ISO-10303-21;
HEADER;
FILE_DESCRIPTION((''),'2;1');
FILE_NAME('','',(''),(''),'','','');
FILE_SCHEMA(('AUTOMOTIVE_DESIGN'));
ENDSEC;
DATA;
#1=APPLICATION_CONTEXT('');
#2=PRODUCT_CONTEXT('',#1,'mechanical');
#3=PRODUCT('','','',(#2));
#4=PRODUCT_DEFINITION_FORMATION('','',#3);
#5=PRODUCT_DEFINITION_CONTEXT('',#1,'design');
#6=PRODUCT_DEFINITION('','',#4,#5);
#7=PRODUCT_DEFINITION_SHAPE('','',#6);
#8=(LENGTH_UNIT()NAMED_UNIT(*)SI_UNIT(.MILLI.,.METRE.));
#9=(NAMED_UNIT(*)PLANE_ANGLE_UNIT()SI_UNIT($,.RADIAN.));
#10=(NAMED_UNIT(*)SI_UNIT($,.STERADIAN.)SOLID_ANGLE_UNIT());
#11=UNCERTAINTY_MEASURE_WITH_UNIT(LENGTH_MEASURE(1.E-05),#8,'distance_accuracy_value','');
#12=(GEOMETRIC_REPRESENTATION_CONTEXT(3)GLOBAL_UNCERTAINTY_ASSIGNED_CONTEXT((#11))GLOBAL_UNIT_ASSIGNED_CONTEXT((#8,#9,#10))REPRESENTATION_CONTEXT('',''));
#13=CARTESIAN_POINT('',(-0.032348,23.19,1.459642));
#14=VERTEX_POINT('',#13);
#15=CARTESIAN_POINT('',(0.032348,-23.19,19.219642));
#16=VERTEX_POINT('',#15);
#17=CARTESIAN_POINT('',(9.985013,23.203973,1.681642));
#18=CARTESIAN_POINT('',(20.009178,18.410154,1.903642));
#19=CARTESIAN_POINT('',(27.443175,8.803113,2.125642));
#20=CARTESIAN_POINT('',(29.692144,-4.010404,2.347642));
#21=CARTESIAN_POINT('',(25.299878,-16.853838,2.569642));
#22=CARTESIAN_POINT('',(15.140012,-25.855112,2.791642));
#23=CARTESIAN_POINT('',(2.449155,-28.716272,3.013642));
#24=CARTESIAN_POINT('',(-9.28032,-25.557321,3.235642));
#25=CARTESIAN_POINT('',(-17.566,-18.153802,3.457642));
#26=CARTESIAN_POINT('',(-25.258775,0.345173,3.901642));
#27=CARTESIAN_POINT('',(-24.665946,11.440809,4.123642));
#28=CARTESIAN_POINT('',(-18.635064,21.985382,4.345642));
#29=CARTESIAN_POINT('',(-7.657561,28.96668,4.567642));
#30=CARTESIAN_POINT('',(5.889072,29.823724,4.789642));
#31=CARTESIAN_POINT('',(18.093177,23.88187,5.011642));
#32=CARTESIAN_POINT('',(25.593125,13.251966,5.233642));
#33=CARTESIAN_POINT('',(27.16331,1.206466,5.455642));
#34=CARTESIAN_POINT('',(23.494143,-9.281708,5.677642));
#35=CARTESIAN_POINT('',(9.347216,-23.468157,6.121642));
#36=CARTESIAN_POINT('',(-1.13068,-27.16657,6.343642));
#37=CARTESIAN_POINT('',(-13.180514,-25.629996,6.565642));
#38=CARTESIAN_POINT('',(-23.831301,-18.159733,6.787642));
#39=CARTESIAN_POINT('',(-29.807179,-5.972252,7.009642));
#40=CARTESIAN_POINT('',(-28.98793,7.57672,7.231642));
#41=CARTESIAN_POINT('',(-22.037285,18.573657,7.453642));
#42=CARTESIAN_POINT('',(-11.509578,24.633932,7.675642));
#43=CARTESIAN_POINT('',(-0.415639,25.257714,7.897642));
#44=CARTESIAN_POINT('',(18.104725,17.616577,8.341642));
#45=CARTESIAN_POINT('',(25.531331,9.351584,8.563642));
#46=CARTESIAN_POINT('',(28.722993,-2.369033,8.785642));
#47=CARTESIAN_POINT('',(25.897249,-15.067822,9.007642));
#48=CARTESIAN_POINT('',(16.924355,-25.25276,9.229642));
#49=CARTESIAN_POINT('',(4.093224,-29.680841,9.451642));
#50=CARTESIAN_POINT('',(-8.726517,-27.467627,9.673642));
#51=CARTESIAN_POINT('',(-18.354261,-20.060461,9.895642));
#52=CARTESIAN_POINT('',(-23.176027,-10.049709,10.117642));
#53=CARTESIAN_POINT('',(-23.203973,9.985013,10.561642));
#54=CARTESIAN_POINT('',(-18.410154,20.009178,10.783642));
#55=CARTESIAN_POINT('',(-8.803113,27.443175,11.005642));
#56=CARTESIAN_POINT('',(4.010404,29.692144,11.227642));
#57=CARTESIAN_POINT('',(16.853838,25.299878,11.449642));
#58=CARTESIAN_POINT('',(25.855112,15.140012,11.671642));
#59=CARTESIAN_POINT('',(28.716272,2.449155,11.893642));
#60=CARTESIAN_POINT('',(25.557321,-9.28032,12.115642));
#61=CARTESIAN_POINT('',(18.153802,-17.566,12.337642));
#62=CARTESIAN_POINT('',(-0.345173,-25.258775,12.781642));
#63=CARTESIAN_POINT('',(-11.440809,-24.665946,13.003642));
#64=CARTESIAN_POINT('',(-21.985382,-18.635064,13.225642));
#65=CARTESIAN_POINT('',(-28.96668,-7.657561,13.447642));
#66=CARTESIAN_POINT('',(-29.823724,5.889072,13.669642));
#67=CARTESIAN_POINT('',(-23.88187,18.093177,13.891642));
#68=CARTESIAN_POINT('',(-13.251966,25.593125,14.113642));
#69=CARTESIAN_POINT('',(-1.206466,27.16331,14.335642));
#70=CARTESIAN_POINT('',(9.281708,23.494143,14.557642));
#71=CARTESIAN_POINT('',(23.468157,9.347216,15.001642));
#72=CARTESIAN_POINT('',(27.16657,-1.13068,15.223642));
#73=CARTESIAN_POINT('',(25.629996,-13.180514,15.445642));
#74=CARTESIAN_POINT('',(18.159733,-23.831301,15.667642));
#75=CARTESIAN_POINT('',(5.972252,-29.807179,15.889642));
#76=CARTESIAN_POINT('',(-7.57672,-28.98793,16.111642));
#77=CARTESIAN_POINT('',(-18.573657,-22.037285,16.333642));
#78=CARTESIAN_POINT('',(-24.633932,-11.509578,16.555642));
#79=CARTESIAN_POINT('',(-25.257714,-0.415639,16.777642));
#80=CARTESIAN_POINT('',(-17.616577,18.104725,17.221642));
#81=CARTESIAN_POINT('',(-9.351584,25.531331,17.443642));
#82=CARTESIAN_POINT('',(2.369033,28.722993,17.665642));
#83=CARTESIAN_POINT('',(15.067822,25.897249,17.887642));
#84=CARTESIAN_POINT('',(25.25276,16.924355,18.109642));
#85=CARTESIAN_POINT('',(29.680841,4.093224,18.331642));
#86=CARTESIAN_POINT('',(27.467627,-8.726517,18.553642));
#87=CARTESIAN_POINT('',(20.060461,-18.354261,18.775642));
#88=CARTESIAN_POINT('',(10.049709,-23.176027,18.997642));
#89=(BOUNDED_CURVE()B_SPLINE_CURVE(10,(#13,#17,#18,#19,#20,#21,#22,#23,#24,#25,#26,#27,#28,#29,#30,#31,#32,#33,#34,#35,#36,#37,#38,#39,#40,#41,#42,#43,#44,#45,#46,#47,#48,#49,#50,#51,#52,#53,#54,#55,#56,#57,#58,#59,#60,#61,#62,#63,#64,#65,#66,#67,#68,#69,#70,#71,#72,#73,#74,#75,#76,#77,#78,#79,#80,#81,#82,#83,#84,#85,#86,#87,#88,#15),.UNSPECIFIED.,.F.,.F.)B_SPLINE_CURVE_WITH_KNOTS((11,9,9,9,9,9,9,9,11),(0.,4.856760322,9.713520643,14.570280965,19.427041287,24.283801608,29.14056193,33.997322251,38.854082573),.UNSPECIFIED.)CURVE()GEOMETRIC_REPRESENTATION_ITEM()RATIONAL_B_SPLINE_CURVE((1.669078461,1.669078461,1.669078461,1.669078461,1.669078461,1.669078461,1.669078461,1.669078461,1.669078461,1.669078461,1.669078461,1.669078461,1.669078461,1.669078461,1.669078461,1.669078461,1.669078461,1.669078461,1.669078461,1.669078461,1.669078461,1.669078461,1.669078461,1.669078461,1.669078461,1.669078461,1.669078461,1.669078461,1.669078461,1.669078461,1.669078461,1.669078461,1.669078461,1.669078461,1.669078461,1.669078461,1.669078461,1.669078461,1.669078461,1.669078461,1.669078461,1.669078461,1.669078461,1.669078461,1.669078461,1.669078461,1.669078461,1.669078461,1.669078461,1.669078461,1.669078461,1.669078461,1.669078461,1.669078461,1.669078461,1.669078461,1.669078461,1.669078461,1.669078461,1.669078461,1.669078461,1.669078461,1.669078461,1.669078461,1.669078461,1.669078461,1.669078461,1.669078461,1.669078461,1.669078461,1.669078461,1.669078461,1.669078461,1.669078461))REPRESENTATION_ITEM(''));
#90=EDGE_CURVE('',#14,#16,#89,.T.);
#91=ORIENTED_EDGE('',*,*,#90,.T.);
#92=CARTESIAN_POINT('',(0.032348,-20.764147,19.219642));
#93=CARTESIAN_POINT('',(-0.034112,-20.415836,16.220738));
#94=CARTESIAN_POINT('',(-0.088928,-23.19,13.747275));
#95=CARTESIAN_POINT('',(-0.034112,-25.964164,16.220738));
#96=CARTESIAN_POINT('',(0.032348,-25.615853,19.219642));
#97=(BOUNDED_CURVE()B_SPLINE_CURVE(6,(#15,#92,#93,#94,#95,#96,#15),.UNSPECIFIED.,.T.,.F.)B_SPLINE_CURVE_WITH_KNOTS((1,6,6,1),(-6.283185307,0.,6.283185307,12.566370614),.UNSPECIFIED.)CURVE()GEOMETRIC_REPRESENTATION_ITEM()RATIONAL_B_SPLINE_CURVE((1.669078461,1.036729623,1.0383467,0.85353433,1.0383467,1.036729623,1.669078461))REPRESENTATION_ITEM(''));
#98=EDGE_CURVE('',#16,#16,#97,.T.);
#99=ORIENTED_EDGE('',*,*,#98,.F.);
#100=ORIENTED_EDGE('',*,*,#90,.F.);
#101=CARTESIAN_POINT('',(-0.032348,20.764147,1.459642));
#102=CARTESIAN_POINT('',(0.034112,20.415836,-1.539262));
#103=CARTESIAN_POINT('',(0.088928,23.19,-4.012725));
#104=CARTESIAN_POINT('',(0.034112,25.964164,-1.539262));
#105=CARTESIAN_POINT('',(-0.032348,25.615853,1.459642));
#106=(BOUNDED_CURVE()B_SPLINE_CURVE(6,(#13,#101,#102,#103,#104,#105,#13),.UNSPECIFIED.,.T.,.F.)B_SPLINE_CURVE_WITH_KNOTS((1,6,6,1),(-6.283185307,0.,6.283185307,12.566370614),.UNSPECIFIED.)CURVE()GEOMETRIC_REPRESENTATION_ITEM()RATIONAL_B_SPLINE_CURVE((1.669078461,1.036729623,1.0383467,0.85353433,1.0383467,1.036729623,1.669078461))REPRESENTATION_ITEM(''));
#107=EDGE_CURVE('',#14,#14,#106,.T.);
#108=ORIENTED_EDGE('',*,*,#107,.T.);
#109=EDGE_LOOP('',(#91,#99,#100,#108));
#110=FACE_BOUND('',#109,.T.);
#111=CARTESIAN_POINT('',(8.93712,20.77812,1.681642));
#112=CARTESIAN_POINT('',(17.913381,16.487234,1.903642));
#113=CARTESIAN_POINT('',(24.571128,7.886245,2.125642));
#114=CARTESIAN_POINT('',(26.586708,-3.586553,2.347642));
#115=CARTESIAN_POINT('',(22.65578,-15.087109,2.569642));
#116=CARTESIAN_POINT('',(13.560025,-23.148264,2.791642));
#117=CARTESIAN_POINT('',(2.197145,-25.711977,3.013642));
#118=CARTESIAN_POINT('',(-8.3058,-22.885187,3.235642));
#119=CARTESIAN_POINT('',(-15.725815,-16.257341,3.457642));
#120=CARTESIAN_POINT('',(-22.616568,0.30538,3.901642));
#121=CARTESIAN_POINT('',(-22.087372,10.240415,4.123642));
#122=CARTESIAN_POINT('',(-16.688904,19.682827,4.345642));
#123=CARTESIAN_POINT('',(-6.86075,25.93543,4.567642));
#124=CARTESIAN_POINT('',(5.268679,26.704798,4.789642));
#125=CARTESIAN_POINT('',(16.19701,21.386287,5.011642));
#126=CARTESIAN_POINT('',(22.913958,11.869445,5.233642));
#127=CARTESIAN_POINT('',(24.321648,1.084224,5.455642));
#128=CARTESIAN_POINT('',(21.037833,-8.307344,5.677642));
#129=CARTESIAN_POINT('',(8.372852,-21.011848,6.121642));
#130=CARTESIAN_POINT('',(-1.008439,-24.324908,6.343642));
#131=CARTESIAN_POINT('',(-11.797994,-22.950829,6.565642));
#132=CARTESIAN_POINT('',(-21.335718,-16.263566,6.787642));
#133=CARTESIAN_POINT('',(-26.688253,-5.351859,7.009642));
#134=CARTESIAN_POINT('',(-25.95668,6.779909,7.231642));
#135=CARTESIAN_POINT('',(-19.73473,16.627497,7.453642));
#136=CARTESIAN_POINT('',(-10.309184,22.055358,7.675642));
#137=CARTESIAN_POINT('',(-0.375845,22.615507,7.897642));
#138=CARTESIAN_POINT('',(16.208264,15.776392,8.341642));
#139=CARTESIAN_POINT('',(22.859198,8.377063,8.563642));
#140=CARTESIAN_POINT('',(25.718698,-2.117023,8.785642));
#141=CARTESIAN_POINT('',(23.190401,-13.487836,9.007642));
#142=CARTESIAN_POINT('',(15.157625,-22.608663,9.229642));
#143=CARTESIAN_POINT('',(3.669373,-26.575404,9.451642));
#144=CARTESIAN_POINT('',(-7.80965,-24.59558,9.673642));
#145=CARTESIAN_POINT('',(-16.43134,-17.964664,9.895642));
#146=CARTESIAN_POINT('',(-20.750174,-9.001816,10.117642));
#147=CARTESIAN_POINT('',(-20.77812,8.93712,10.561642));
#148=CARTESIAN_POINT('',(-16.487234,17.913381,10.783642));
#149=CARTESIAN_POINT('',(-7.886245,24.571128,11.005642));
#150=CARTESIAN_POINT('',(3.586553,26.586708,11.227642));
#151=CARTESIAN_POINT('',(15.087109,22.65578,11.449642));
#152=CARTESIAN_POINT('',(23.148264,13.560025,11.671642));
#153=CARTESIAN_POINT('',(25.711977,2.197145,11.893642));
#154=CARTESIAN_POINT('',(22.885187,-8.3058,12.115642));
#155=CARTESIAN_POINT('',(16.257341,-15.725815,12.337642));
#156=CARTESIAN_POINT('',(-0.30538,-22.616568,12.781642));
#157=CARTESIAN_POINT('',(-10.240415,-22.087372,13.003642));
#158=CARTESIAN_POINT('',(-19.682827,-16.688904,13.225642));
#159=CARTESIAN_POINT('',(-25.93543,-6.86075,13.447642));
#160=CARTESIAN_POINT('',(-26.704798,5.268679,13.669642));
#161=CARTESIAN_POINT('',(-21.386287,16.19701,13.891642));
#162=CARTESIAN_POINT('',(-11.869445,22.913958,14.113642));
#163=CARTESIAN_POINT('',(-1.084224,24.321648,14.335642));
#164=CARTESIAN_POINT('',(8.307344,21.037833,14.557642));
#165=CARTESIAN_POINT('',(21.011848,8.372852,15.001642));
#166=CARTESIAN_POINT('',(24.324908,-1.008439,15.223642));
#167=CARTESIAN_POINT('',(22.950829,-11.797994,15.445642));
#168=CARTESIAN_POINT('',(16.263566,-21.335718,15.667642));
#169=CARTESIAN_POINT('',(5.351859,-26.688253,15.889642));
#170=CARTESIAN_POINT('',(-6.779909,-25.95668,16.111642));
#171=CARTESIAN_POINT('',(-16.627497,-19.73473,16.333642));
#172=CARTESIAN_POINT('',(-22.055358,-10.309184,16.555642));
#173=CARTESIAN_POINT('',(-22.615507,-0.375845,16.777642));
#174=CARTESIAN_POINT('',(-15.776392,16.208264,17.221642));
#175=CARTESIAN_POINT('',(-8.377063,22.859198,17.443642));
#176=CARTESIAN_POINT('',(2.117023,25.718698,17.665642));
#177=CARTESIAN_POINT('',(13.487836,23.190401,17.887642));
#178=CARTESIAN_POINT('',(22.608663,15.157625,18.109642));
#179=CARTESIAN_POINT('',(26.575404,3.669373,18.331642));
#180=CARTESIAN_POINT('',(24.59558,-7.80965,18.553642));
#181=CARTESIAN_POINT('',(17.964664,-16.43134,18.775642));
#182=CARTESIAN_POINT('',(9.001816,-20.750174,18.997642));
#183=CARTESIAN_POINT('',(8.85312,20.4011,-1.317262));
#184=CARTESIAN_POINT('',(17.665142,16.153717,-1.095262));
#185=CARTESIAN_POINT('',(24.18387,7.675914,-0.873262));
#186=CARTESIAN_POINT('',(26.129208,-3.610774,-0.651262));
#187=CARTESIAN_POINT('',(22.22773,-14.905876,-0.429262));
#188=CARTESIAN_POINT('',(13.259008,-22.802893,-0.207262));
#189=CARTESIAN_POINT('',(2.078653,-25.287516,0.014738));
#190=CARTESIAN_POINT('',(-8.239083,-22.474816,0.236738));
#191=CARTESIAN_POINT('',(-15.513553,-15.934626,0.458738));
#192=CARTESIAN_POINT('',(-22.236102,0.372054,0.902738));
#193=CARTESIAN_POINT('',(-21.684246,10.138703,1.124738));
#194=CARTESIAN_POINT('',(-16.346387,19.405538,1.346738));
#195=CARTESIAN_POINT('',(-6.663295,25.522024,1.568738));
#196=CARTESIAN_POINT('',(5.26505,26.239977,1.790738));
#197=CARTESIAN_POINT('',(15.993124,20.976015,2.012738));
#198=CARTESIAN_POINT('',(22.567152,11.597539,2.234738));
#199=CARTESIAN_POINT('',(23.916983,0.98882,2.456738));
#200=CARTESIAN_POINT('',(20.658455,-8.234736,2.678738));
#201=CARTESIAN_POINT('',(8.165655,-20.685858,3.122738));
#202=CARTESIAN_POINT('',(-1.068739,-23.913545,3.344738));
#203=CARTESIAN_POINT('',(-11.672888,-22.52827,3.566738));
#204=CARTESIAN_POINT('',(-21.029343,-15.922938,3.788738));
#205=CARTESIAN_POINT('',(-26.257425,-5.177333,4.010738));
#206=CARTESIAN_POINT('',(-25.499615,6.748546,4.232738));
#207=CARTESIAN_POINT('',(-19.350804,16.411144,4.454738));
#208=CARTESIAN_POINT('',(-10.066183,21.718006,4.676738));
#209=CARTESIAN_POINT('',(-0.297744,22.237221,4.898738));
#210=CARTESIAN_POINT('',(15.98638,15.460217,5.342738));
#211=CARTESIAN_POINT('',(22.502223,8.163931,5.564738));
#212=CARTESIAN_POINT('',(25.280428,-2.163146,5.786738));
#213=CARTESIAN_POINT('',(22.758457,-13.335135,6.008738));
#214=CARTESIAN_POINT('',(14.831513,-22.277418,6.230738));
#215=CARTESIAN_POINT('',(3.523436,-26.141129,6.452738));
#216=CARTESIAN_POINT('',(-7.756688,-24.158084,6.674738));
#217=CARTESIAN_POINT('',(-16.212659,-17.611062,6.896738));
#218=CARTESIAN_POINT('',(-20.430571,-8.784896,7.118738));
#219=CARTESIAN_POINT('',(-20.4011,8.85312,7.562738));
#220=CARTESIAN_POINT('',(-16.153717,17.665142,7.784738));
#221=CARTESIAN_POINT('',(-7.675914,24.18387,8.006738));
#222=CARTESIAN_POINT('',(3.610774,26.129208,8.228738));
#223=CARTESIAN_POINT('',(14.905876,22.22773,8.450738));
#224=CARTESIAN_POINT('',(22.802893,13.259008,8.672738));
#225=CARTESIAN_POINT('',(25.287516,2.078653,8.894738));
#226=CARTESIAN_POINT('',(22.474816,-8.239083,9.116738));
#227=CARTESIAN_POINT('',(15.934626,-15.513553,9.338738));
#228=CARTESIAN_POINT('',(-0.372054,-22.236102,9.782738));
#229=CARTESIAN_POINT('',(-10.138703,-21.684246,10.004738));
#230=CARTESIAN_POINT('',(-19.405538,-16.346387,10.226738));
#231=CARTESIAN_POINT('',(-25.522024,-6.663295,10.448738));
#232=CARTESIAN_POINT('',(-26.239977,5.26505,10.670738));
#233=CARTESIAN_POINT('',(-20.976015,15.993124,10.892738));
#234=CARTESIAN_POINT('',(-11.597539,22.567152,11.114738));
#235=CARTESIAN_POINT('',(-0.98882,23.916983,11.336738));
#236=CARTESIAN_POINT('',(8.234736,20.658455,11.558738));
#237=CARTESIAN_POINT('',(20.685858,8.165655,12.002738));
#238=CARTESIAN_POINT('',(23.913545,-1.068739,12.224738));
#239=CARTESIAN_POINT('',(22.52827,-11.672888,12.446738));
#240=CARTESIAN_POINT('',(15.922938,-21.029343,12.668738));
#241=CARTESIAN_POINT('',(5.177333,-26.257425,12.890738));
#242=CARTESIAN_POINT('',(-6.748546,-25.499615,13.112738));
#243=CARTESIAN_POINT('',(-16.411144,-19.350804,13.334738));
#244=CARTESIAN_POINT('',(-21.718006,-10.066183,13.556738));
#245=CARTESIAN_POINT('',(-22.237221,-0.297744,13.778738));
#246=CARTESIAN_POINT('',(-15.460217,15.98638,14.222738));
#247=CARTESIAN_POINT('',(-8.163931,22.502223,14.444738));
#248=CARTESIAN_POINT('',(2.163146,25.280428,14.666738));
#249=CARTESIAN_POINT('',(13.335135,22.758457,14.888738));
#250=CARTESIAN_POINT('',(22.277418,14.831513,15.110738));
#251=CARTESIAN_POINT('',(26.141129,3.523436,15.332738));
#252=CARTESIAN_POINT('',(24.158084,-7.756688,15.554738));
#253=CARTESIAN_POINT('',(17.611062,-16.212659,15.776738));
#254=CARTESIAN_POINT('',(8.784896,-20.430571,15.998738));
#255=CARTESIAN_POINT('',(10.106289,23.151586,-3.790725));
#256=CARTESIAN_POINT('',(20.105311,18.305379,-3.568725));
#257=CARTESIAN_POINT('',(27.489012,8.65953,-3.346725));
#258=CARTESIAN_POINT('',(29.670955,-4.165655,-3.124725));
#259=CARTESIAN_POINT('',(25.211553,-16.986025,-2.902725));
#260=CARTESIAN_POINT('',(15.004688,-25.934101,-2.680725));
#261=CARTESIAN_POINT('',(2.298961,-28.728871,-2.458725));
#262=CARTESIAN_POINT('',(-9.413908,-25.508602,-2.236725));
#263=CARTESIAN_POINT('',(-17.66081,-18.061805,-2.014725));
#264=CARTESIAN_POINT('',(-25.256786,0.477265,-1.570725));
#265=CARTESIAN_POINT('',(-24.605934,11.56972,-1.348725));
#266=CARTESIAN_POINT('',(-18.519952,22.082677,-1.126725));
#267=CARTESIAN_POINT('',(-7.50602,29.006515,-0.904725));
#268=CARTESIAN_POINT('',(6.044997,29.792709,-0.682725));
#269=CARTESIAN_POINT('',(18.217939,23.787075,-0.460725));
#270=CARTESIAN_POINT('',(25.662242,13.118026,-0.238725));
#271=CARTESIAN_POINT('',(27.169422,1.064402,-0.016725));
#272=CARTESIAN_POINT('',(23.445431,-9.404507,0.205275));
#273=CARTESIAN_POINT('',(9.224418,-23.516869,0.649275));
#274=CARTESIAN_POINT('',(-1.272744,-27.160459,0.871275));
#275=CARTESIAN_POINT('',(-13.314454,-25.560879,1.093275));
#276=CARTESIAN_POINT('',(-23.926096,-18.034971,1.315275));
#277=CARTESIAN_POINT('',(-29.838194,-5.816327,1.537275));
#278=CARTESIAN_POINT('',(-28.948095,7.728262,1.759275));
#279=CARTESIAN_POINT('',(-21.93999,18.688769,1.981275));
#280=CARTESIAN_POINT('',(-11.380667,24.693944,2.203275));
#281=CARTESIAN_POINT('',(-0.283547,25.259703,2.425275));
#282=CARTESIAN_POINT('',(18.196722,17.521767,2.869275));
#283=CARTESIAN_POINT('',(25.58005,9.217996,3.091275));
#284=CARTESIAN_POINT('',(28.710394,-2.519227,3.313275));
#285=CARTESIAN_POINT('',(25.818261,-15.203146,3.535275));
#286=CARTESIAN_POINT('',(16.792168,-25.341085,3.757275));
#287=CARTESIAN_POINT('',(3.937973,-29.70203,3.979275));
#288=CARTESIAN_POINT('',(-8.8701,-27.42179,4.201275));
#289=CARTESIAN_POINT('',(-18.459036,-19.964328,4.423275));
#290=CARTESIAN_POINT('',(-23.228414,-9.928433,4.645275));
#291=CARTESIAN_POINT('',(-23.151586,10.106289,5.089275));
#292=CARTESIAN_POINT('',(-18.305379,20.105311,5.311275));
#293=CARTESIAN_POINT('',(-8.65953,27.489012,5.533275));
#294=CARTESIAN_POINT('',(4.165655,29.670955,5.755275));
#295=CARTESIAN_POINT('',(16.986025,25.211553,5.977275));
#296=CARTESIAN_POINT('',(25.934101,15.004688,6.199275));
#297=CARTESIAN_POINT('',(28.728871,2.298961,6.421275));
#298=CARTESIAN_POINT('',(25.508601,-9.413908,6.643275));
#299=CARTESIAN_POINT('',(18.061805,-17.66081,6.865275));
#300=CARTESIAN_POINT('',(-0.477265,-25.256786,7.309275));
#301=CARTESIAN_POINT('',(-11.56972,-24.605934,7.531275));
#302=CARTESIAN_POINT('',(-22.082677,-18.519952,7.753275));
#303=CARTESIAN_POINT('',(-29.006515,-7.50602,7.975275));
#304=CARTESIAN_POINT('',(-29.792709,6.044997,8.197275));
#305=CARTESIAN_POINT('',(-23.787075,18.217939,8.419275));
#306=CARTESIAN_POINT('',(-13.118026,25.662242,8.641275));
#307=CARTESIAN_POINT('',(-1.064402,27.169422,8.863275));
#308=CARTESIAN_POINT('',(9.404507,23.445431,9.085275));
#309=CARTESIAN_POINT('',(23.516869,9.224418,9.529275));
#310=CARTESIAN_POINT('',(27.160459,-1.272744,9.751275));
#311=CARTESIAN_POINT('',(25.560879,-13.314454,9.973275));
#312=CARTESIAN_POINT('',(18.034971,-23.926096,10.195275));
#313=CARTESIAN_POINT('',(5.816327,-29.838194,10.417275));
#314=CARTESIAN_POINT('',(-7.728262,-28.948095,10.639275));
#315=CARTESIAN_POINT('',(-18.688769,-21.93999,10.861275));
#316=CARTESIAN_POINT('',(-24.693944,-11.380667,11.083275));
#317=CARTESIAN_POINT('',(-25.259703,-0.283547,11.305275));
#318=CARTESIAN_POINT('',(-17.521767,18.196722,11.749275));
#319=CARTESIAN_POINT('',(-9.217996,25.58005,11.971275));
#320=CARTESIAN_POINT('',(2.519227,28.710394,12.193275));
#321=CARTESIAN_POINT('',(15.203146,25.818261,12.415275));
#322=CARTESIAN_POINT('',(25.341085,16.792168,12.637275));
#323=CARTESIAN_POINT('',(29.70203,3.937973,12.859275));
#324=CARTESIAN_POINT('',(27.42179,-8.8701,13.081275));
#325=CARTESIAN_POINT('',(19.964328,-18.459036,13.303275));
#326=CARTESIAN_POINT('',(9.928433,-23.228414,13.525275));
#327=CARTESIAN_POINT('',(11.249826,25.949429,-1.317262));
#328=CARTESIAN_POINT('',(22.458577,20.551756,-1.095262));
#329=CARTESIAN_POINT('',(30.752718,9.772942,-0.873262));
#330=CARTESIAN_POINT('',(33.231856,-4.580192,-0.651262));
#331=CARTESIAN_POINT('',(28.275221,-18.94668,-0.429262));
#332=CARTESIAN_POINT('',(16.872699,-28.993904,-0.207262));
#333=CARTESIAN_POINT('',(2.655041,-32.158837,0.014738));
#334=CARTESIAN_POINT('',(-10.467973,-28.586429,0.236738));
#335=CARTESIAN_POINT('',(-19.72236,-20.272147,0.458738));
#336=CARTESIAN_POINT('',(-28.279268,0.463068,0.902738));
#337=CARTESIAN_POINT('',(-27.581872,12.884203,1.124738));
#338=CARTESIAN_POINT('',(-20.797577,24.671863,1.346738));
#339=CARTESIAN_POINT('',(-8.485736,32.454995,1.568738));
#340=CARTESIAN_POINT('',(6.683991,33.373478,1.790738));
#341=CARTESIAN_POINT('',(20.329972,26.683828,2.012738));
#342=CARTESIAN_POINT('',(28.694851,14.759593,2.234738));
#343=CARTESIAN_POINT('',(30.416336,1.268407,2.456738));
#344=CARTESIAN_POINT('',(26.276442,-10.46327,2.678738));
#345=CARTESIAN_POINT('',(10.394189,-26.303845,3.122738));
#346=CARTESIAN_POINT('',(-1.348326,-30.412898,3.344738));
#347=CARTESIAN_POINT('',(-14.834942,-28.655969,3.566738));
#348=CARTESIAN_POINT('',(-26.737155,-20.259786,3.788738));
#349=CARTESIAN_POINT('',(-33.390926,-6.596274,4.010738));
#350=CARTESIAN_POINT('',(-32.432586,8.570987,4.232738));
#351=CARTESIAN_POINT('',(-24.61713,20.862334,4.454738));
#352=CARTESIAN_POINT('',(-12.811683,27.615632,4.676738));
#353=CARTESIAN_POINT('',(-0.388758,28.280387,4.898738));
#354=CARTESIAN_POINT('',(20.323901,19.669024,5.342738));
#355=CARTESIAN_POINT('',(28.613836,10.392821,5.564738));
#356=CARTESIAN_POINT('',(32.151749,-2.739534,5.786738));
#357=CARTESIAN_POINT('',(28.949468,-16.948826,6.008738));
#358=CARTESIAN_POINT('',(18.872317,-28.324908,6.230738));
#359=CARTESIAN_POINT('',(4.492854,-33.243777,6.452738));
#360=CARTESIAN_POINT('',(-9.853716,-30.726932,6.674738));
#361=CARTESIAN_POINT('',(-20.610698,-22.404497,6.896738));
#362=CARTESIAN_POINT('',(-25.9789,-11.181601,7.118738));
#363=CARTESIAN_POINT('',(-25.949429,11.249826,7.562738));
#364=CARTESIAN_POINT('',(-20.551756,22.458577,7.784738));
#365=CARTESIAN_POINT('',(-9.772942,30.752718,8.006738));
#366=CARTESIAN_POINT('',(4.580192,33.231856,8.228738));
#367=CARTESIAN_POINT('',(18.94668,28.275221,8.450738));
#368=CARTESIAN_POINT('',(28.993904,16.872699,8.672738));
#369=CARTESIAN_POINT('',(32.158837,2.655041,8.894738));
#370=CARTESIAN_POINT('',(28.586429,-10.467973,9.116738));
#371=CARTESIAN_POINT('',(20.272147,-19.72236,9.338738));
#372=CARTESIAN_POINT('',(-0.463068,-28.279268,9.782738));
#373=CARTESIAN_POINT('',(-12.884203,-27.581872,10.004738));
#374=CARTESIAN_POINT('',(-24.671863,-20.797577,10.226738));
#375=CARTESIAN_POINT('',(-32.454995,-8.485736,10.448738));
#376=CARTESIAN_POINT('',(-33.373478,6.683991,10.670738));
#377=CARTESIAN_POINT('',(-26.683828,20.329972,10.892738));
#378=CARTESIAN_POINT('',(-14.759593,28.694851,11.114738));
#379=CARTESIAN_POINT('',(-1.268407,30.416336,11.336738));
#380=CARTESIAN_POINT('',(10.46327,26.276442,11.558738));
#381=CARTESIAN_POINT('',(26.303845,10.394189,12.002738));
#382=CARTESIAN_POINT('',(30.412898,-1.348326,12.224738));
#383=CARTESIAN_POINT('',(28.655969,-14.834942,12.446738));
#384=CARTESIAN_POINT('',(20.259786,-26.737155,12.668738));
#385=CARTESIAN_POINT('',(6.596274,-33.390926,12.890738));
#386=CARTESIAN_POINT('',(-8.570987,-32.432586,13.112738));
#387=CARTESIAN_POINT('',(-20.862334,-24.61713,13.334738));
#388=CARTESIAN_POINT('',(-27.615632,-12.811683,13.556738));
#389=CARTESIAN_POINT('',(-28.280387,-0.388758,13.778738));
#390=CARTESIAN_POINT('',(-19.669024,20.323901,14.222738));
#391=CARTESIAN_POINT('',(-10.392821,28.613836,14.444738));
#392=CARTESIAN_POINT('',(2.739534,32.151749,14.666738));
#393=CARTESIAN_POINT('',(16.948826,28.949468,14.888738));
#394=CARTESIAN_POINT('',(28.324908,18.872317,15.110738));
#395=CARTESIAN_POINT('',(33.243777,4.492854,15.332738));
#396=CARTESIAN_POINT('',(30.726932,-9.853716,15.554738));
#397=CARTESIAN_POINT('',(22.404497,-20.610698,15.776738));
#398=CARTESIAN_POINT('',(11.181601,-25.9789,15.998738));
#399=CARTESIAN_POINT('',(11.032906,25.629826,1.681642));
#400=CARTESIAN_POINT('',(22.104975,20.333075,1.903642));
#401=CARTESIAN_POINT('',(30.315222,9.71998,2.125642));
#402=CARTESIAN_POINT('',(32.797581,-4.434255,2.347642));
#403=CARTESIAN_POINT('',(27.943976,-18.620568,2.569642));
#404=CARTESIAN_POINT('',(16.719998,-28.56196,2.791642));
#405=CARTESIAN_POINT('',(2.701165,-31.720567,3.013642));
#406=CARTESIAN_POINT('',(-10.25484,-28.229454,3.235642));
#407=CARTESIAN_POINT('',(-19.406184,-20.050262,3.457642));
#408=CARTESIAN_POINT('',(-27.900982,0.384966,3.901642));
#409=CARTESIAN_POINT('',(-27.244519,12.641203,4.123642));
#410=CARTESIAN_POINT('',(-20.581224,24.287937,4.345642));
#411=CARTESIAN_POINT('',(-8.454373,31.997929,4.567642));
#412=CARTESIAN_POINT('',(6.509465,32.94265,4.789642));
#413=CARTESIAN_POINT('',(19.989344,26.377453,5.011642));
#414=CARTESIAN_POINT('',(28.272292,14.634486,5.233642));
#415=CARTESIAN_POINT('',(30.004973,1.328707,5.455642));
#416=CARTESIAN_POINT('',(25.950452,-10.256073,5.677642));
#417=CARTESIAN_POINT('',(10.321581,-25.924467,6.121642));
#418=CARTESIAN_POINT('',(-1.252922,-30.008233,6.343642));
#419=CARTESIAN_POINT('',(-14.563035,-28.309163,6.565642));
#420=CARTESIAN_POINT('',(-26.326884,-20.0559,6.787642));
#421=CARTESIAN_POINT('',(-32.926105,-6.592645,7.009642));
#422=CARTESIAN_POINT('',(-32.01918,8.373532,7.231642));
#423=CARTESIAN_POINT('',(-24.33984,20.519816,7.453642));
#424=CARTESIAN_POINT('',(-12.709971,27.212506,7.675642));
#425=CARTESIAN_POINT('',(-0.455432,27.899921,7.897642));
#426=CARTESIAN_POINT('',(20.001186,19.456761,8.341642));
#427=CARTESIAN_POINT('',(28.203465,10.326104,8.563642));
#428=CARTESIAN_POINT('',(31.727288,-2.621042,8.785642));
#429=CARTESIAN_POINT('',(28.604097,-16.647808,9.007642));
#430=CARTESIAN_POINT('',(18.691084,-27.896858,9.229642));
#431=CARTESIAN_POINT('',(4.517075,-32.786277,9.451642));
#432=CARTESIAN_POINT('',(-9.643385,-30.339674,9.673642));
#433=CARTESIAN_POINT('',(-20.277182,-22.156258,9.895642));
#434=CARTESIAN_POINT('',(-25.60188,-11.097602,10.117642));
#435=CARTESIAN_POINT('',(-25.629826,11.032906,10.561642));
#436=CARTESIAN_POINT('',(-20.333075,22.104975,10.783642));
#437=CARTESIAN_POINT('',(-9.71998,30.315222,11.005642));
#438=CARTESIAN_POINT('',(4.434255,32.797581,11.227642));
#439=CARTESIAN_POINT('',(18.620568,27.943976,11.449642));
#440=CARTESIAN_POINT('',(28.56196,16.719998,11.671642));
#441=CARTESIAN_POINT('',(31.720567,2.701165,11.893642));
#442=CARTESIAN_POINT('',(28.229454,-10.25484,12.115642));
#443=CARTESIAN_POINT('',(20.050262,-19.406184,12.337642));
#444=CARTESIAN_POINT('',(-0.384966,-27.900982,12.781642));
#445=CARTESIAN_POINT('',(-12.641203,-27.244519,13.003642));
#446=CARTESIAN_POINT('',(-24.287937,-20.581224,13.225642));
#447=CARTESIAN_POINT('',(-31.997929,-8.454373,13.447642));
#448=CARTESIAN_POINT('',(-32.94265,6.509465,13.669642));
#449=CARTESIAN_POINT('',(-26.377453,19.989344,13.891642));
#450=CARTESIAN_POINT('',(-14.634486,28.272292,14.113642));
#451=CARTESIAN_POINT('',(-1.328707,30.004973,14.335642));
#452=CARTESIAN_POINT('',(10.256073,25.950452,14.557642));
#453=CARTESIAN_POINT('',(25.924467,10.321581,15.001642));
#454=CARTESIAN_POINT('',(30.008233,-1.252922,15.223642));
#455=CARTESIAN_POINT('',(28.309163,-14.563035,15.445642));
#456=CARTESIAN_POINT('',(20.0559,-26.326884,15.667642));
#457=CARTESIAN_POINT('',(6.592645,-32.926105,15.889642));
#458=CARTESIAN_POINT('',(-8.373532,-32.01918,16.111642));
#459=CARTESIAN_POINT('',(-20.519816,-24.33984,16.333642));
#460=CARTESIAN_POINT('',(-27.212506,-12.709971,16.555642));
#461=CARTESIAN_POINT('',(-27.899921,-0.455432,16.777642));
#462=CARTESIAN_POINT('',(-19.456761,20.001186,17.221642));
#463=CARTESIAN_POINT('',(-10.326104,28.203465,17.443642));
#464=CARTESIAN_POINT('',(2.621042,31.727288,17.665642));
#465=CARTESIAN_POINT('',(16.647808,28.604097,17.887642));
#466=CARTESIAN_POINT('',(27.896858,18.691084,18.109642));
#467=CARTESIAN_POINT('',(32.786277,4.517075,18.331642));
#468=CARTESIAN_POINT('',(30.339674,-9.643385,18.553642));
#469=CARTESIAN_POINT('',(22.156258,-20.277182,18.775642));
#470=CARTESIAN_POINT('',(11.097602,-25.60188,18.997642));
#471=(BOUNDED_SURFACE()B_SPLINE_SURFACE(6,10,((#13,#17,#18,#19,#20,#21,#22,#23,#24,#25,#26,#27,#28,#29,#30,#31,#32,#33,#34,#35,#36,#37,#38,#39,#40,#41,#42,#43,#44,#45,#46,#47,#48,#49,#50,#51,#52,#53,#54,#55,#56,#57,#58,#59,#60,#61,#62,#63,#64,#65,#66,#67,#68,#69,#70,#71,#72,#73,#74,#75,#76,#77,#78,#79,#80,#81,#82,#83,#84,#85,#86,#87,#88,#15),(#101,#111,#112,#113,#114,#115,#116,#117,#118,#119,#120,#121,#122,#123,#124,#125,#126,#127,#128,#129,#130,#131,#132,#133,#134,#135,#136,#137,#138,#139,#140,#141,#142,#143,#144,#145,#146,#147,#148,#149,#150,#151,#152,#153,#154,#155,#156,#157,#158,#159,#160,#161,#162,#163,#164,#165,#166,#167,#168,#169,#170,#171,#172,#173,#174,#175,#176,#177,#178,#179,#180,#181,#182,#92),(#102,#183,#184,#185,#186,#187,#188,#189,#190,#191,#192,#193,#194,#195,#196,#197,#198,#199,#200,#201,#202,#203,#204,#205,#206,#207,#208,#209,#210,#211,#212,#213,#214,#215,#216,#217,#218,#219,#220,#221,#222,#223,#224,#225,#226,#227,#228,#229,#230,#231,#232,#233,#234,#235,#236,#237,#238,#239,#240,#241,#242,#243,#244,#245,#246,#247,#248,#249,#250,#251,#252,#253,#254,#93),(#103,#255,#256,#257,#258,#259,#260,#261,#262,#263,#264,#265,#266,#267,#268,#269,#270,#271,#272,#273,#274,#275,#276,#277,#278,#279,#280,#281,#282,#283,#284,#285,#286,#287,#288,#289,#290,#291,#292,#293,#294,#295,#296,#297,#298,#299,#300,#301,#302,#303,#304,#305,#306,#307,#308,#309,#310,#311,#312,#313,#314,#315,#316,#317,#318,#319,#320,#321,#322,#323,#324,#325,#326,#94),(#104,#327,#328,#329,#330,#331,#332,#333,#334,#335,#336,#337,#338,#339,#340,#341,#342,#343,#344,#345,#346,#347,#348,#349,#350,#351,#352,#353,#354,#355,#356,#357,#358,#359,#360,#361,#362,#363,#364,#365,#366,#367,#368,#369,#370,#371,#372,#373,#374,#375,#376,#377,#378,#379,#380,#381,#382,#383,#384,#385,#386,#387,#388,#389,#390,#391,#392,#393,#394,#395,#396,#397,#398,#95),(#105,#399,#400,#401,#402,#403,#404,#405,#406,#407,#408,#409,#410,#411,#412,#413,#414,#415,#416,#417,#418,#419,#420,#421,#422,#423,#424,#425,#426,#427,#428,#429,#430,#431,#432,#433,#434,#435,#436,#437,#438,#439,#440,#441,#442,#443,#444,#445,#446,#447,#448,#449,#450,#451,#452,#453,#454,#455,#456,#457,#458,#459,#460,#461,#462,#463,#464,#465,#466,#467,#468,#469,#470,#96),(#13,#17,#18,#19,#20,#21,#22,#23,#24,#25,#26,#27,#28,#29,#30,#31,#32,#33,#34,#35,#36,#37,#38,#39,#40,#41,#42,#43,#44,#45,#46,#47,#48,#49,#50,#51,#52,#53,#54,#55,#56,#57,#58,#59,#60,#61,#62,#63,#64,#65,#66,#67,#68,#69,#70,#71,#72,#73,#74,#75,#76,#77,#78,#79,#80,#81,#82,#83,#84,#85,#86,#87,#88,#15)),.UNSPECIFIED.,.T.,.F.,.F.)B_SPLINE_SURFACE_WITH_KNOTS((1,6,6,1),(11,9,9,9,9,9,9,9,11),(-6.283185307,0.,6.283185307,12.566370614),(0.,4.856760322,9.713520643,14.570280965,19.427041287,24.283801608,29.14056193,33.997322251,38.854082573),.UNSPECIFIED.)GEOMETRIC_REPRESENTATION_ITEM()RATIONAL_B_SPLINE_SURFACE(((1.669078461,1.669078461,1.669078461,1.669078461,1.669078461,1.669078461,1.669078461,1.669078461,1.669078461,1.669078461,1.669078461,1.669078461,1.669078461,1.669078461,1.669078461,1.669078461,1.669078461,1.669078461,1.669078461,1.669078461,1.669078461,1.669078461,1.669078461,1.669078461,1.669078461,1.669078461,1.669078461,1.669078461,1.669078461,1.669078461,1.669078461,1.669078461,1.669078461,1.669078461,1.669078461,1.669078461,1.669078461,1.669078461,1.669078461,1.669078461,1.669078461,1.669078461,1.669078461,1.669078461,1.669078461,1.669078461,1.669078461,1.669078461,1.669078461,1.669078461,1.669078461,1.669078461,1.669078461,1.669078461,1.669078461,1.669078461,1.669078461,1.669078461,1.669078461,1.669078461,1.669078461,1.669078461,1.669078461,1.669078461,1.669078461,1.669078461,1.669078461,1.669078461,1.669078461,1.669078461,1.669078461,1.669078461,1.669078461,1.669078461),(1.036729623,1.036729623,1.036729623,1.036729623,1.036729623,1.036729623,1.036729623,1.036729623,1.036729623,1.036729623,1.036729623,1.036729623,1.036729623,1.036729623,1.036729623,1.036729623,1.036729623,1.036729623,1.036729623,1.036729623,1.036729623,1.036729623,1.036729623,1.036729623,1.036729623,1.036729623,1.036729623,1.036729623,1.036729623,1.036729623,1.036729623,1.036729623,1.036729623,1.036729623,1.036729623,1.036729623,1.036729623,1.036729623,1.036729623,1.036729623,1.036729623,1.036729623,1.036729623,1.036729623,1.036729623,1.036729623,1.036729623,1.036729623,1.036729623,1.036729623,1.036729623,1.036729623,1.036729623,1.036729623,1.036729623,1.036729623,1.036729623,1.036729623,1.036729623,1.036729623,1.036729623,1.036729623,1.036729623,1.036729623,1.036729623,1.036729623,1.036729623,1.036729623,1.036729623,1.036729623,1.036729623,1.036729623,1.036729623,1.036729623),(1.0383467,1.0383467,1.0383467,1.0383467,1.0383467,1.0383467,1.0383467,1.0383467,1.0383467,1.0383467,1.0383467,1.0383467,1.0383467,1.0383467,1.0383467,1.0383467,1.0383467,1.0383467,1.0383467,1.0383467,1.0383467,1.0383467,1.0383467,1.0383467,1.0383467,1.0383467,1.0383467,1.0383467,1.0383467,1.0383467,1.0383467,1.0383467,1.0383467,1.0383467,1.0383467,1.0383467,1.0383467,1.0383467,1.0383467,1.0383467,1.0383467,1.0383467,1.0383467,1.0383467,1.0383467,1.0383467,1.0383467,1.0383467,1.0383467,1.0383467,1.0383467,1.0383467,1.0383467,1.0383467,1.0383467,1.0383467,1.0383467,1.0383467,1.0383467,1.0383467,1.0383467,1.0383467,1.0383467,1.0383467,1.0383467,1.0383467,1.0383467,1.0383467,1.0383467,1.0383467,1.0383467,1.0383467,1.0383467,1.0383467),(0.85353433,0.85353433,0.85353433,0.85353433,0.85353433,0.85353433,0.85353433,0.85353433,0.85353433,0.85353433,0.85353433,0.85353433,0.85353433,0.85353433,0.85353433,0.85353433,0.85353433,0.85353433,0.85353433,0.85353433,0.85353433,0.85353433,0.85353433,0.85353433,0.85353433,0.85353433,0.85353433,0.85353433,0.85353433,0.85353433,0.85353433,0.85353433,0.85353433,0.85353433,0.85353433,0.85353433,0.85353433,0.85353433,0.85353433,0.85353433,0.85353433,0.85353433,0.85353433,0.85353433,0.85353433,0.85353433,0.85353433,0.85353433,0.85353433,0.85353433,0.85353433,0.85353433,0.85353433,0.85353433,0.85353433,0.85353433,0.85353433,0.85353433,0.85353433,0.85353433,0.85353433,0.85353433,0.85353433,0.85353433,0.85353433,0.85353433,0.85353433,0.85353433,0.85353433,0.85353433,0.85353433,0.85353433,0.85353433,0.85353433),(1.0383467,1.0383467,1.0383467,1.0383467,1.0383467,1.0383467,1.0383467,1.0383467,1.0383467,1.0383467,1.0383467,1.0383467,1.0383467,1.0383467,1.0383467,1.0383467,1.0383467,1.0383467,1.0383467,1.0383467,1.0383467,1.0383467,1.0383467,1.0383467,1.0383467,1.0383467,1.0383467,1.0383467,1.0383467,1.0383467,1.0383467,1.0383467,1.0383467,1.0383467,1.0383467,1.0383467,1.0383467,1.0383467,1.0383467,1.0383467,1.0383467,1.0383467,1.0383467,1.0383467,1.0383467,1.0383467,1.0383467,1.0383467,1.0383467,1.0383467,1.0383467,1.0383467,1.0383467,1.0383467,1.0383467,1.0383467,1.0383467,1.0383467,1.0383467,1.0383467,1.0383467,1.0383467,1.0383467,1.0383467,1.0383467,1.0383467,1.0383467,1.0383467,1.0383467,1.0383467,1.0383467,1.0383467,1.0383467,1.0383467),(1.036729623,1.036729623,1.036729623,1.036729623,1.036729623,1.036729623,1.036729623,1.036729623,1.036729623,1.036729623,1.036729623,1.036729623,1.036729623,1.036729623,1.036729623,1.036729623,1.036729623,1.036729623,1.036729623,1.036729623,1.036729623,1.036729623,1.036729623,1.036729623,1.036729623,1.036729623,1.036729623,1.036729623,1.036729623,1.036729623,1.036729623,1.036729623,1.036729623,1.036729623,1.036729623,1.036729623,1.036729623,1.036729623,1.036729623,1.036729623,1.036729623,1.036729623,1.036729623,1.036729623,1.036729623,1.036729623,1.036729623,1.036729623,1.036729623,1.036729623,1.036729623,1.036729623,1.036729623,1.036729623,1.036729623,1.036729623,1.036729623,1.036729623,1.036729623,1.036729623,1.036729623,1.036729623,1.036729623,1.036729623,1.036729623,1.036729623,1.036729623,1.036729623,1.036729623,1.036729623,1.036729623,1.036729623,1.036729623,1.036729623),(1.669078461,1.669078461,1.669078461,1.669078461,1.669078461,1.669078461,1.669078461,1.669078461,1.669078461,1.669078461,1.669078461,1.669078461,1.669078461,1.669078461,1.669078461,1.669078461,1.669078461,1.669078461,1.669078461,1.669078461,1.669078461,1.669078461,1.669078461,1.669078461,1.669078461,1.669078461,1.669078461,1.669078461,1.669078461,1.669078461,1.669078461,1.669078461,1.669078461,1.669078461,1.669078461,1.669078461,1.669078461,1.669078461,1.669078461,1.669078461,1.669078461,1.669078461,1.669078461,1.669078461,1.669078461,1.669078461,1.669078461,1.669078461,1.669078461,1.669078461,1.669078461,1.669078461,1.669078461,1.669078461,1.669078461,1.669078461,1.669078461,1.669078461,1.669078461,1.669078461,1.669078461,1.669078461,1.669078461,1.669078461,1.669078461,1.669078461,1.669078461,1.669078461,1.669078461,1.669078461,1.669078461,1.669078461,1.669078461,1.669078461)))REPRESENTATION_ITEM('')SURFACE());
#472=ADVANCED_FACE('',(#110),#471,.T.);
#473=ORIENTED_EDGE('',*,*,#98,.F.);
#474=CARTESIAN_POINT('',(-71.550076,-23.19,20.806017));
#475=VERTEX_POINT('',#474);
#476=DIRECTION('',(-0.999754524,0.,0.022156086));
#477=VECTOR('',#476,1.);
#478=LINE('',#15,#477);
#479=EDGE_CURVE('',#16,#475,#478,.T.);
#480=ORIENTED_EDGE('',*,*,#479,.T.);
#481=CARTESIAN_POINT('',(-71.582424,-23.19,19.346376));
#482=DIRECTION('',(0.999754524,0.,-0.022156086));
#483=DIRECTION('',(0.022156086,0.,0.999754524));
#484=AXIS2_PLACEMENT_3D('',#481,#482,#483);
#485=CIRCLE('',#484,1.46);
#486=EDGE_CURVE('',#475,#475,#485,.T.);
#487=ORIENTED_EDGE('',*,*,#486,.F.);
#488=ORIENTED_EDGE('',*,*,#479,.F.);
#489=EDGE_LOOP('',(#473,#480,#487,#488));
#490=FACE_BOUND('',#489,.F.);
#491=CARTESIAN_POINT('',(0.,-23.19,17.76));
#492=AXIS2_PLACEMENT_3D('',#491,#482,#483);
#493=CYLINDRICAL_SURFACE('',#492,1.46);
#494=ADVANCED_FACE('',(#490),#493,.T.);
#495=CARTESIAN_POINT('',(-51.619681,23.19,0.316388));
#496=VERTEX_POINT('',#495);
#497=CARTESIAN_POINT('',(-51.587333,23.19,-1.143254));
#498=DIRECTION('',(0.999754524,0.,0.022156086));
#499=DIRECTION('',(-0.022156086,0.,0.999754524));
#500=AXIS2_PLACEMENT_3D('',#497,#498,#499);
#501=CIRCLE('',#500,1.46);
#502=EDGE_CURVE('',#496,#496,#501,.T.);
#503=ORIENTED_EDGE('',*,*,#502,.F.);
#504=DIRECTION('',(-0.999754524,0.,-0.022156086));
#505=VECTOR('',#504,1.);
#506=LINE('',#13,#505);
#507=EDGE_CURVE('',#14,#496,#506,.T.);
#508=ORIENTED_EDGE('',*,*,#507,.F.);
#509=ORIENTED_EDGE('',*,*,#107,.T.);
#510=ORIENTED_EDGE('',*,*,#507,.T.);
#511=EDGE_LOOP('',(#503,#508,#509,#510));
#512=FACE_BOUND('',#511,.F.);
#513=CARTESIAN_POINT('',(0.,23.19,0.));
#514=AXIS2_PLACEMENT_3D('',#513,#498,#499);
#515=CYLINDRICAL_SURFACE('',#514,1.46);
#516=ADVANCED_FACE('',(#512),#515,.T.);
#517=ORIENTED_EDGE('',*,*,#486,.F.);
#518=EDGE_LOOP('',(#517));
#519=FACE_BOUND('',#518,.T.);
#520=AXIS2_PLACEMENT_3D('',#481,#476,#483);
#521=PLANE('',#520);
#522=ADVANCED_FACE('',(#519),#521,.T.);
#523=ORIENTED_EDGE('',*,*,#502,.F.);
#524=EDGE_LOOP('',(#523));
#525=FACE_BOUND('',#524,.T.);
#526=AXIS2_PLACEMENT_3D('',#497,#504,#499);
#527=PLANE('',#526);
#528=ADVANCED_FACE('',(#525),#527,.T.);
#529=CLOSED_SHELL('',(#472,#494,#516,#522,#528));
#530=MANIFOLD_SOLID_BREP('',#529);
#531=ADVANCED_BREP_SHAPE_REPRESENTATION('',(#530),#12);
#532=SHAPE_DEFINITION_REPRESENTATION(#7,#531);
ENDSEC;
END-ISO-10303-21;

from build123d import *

# Parameters (mm, degrees)
SWEEP1_PITCH        = 3.229090909
SWEEP1_HEIGHT       = 17.76
SWEEP1_RADIUS       = 23.19
SWEEP1_START_ANGLE  = 90
SKETCH2_R           = 1.46
SKETCH3_R           = 1.46
BOSS_EXTRUDE1_DEPTH = 101.6
SKETCH4_R           = 1.46
BOSS_EXTRUDE2_DEPTH = 101.6
SKETCH5_R           = 5.71457576
CUT_EXTRUDE1_DEPTH  = 50
SKETCH6_R           = 6.6278677
CUT_EXTRUDE2_DEPTH  = 30


with BuildPart() as part:
    # Sweep1: sweep along a helix
    with BuildLine() as sweep1_path:
        add(Helix(SWEEP1_PITCH, SWEEP1_HEIGHT, SWEEP1_RADIUS, center=(0, 0, 0), direction=(0, 0, 1), lefthand=True, mode=Mode.PRIVATE).rotate(Axis((0, 0, 0), (0, 0, 1)), SWEEP1_START_ANGLE))
    # Sketch2 → Sweep1 (sweep)
    with BuildSketch(Plane(origin=(0, -23.19, 17.76), x_dir=(0.02215608552528747, -2.9385448225596144e-15, 0.9997545238078176), z_dir=(-0.9997545238078176, 7.623711740936303e-14, 0.02215608552528747))):
        Circle(SKETCH2_R)
    sweep(path=sweep1_path.line, is_frenet=True)

    # Sketch3 → Boss-Extrude1 (add)
    with BuildSketch(Plane(origin=(0, 0, 0), x_dir=(-0.022156085525287472, 0, 0.9997545238078176), z_dir=(-0.9997545238078176, -4.108120132853917e-15, -0.022156085525287472))):
        with Locations((0, 23.19)):
            Circle(SKETCH3_R)
    extrude(amount=BOSS_EXTRUDE1_DEPTH)

    # Sketch4 → Boss-Extrude2 (add)
    with BuildSketch(Plane(origin=(-0.393395486, 0, 0.008718244), x_dir=(0.02215608552528747, 7.59605993468812e-15, 0.9997545238078176), z_dir=(-0.9997545238078176, -4.242601007962503e-15, 0.02215608552528747))):
        with Locations((17.755640343, -23.19)):
            Circle(SKETCH4_R)
    extrude(amount=BOSS_EXTRUDE2_DEPTH)

    # Sketch5 → Cut-Extrude1 (cut)
    with BuildSketch(Plane(origin=(-101.575059619, 0, -2.251058289), x_dir=(-0.022156085525287476, 0, 0.9997545238078176), z_dir=(-0.9997545238078177, -4.108120132853917e-15, -0.022156085525287476))):
        with Locations((0, 23.19)):
            Circle(SKETCH5_R)
    extrude(amount=-CUT_EXTRUDE1_DEPTH, mode=Mode.SUBTRACT)

    # Sketch6 → Cut-Extrude2 (cut)
    with BuildSketch(Plane(origin=(-101.968455105, 0, 2.259776534), x_dir=(0.022156085525287472, 0, 0.9997545238078176), z_dir=(-0.9997545238078177, -4.242601007962503e-15, 0.022156085525287472))):
        with Locations((17.755640343, -23.19)):
            Circle(SKETCH6_R)
    extrude(amount=-CUT_EXTRUDE2_DEPTH, mode=Mode.SUBTRACT)


solid = part.part
